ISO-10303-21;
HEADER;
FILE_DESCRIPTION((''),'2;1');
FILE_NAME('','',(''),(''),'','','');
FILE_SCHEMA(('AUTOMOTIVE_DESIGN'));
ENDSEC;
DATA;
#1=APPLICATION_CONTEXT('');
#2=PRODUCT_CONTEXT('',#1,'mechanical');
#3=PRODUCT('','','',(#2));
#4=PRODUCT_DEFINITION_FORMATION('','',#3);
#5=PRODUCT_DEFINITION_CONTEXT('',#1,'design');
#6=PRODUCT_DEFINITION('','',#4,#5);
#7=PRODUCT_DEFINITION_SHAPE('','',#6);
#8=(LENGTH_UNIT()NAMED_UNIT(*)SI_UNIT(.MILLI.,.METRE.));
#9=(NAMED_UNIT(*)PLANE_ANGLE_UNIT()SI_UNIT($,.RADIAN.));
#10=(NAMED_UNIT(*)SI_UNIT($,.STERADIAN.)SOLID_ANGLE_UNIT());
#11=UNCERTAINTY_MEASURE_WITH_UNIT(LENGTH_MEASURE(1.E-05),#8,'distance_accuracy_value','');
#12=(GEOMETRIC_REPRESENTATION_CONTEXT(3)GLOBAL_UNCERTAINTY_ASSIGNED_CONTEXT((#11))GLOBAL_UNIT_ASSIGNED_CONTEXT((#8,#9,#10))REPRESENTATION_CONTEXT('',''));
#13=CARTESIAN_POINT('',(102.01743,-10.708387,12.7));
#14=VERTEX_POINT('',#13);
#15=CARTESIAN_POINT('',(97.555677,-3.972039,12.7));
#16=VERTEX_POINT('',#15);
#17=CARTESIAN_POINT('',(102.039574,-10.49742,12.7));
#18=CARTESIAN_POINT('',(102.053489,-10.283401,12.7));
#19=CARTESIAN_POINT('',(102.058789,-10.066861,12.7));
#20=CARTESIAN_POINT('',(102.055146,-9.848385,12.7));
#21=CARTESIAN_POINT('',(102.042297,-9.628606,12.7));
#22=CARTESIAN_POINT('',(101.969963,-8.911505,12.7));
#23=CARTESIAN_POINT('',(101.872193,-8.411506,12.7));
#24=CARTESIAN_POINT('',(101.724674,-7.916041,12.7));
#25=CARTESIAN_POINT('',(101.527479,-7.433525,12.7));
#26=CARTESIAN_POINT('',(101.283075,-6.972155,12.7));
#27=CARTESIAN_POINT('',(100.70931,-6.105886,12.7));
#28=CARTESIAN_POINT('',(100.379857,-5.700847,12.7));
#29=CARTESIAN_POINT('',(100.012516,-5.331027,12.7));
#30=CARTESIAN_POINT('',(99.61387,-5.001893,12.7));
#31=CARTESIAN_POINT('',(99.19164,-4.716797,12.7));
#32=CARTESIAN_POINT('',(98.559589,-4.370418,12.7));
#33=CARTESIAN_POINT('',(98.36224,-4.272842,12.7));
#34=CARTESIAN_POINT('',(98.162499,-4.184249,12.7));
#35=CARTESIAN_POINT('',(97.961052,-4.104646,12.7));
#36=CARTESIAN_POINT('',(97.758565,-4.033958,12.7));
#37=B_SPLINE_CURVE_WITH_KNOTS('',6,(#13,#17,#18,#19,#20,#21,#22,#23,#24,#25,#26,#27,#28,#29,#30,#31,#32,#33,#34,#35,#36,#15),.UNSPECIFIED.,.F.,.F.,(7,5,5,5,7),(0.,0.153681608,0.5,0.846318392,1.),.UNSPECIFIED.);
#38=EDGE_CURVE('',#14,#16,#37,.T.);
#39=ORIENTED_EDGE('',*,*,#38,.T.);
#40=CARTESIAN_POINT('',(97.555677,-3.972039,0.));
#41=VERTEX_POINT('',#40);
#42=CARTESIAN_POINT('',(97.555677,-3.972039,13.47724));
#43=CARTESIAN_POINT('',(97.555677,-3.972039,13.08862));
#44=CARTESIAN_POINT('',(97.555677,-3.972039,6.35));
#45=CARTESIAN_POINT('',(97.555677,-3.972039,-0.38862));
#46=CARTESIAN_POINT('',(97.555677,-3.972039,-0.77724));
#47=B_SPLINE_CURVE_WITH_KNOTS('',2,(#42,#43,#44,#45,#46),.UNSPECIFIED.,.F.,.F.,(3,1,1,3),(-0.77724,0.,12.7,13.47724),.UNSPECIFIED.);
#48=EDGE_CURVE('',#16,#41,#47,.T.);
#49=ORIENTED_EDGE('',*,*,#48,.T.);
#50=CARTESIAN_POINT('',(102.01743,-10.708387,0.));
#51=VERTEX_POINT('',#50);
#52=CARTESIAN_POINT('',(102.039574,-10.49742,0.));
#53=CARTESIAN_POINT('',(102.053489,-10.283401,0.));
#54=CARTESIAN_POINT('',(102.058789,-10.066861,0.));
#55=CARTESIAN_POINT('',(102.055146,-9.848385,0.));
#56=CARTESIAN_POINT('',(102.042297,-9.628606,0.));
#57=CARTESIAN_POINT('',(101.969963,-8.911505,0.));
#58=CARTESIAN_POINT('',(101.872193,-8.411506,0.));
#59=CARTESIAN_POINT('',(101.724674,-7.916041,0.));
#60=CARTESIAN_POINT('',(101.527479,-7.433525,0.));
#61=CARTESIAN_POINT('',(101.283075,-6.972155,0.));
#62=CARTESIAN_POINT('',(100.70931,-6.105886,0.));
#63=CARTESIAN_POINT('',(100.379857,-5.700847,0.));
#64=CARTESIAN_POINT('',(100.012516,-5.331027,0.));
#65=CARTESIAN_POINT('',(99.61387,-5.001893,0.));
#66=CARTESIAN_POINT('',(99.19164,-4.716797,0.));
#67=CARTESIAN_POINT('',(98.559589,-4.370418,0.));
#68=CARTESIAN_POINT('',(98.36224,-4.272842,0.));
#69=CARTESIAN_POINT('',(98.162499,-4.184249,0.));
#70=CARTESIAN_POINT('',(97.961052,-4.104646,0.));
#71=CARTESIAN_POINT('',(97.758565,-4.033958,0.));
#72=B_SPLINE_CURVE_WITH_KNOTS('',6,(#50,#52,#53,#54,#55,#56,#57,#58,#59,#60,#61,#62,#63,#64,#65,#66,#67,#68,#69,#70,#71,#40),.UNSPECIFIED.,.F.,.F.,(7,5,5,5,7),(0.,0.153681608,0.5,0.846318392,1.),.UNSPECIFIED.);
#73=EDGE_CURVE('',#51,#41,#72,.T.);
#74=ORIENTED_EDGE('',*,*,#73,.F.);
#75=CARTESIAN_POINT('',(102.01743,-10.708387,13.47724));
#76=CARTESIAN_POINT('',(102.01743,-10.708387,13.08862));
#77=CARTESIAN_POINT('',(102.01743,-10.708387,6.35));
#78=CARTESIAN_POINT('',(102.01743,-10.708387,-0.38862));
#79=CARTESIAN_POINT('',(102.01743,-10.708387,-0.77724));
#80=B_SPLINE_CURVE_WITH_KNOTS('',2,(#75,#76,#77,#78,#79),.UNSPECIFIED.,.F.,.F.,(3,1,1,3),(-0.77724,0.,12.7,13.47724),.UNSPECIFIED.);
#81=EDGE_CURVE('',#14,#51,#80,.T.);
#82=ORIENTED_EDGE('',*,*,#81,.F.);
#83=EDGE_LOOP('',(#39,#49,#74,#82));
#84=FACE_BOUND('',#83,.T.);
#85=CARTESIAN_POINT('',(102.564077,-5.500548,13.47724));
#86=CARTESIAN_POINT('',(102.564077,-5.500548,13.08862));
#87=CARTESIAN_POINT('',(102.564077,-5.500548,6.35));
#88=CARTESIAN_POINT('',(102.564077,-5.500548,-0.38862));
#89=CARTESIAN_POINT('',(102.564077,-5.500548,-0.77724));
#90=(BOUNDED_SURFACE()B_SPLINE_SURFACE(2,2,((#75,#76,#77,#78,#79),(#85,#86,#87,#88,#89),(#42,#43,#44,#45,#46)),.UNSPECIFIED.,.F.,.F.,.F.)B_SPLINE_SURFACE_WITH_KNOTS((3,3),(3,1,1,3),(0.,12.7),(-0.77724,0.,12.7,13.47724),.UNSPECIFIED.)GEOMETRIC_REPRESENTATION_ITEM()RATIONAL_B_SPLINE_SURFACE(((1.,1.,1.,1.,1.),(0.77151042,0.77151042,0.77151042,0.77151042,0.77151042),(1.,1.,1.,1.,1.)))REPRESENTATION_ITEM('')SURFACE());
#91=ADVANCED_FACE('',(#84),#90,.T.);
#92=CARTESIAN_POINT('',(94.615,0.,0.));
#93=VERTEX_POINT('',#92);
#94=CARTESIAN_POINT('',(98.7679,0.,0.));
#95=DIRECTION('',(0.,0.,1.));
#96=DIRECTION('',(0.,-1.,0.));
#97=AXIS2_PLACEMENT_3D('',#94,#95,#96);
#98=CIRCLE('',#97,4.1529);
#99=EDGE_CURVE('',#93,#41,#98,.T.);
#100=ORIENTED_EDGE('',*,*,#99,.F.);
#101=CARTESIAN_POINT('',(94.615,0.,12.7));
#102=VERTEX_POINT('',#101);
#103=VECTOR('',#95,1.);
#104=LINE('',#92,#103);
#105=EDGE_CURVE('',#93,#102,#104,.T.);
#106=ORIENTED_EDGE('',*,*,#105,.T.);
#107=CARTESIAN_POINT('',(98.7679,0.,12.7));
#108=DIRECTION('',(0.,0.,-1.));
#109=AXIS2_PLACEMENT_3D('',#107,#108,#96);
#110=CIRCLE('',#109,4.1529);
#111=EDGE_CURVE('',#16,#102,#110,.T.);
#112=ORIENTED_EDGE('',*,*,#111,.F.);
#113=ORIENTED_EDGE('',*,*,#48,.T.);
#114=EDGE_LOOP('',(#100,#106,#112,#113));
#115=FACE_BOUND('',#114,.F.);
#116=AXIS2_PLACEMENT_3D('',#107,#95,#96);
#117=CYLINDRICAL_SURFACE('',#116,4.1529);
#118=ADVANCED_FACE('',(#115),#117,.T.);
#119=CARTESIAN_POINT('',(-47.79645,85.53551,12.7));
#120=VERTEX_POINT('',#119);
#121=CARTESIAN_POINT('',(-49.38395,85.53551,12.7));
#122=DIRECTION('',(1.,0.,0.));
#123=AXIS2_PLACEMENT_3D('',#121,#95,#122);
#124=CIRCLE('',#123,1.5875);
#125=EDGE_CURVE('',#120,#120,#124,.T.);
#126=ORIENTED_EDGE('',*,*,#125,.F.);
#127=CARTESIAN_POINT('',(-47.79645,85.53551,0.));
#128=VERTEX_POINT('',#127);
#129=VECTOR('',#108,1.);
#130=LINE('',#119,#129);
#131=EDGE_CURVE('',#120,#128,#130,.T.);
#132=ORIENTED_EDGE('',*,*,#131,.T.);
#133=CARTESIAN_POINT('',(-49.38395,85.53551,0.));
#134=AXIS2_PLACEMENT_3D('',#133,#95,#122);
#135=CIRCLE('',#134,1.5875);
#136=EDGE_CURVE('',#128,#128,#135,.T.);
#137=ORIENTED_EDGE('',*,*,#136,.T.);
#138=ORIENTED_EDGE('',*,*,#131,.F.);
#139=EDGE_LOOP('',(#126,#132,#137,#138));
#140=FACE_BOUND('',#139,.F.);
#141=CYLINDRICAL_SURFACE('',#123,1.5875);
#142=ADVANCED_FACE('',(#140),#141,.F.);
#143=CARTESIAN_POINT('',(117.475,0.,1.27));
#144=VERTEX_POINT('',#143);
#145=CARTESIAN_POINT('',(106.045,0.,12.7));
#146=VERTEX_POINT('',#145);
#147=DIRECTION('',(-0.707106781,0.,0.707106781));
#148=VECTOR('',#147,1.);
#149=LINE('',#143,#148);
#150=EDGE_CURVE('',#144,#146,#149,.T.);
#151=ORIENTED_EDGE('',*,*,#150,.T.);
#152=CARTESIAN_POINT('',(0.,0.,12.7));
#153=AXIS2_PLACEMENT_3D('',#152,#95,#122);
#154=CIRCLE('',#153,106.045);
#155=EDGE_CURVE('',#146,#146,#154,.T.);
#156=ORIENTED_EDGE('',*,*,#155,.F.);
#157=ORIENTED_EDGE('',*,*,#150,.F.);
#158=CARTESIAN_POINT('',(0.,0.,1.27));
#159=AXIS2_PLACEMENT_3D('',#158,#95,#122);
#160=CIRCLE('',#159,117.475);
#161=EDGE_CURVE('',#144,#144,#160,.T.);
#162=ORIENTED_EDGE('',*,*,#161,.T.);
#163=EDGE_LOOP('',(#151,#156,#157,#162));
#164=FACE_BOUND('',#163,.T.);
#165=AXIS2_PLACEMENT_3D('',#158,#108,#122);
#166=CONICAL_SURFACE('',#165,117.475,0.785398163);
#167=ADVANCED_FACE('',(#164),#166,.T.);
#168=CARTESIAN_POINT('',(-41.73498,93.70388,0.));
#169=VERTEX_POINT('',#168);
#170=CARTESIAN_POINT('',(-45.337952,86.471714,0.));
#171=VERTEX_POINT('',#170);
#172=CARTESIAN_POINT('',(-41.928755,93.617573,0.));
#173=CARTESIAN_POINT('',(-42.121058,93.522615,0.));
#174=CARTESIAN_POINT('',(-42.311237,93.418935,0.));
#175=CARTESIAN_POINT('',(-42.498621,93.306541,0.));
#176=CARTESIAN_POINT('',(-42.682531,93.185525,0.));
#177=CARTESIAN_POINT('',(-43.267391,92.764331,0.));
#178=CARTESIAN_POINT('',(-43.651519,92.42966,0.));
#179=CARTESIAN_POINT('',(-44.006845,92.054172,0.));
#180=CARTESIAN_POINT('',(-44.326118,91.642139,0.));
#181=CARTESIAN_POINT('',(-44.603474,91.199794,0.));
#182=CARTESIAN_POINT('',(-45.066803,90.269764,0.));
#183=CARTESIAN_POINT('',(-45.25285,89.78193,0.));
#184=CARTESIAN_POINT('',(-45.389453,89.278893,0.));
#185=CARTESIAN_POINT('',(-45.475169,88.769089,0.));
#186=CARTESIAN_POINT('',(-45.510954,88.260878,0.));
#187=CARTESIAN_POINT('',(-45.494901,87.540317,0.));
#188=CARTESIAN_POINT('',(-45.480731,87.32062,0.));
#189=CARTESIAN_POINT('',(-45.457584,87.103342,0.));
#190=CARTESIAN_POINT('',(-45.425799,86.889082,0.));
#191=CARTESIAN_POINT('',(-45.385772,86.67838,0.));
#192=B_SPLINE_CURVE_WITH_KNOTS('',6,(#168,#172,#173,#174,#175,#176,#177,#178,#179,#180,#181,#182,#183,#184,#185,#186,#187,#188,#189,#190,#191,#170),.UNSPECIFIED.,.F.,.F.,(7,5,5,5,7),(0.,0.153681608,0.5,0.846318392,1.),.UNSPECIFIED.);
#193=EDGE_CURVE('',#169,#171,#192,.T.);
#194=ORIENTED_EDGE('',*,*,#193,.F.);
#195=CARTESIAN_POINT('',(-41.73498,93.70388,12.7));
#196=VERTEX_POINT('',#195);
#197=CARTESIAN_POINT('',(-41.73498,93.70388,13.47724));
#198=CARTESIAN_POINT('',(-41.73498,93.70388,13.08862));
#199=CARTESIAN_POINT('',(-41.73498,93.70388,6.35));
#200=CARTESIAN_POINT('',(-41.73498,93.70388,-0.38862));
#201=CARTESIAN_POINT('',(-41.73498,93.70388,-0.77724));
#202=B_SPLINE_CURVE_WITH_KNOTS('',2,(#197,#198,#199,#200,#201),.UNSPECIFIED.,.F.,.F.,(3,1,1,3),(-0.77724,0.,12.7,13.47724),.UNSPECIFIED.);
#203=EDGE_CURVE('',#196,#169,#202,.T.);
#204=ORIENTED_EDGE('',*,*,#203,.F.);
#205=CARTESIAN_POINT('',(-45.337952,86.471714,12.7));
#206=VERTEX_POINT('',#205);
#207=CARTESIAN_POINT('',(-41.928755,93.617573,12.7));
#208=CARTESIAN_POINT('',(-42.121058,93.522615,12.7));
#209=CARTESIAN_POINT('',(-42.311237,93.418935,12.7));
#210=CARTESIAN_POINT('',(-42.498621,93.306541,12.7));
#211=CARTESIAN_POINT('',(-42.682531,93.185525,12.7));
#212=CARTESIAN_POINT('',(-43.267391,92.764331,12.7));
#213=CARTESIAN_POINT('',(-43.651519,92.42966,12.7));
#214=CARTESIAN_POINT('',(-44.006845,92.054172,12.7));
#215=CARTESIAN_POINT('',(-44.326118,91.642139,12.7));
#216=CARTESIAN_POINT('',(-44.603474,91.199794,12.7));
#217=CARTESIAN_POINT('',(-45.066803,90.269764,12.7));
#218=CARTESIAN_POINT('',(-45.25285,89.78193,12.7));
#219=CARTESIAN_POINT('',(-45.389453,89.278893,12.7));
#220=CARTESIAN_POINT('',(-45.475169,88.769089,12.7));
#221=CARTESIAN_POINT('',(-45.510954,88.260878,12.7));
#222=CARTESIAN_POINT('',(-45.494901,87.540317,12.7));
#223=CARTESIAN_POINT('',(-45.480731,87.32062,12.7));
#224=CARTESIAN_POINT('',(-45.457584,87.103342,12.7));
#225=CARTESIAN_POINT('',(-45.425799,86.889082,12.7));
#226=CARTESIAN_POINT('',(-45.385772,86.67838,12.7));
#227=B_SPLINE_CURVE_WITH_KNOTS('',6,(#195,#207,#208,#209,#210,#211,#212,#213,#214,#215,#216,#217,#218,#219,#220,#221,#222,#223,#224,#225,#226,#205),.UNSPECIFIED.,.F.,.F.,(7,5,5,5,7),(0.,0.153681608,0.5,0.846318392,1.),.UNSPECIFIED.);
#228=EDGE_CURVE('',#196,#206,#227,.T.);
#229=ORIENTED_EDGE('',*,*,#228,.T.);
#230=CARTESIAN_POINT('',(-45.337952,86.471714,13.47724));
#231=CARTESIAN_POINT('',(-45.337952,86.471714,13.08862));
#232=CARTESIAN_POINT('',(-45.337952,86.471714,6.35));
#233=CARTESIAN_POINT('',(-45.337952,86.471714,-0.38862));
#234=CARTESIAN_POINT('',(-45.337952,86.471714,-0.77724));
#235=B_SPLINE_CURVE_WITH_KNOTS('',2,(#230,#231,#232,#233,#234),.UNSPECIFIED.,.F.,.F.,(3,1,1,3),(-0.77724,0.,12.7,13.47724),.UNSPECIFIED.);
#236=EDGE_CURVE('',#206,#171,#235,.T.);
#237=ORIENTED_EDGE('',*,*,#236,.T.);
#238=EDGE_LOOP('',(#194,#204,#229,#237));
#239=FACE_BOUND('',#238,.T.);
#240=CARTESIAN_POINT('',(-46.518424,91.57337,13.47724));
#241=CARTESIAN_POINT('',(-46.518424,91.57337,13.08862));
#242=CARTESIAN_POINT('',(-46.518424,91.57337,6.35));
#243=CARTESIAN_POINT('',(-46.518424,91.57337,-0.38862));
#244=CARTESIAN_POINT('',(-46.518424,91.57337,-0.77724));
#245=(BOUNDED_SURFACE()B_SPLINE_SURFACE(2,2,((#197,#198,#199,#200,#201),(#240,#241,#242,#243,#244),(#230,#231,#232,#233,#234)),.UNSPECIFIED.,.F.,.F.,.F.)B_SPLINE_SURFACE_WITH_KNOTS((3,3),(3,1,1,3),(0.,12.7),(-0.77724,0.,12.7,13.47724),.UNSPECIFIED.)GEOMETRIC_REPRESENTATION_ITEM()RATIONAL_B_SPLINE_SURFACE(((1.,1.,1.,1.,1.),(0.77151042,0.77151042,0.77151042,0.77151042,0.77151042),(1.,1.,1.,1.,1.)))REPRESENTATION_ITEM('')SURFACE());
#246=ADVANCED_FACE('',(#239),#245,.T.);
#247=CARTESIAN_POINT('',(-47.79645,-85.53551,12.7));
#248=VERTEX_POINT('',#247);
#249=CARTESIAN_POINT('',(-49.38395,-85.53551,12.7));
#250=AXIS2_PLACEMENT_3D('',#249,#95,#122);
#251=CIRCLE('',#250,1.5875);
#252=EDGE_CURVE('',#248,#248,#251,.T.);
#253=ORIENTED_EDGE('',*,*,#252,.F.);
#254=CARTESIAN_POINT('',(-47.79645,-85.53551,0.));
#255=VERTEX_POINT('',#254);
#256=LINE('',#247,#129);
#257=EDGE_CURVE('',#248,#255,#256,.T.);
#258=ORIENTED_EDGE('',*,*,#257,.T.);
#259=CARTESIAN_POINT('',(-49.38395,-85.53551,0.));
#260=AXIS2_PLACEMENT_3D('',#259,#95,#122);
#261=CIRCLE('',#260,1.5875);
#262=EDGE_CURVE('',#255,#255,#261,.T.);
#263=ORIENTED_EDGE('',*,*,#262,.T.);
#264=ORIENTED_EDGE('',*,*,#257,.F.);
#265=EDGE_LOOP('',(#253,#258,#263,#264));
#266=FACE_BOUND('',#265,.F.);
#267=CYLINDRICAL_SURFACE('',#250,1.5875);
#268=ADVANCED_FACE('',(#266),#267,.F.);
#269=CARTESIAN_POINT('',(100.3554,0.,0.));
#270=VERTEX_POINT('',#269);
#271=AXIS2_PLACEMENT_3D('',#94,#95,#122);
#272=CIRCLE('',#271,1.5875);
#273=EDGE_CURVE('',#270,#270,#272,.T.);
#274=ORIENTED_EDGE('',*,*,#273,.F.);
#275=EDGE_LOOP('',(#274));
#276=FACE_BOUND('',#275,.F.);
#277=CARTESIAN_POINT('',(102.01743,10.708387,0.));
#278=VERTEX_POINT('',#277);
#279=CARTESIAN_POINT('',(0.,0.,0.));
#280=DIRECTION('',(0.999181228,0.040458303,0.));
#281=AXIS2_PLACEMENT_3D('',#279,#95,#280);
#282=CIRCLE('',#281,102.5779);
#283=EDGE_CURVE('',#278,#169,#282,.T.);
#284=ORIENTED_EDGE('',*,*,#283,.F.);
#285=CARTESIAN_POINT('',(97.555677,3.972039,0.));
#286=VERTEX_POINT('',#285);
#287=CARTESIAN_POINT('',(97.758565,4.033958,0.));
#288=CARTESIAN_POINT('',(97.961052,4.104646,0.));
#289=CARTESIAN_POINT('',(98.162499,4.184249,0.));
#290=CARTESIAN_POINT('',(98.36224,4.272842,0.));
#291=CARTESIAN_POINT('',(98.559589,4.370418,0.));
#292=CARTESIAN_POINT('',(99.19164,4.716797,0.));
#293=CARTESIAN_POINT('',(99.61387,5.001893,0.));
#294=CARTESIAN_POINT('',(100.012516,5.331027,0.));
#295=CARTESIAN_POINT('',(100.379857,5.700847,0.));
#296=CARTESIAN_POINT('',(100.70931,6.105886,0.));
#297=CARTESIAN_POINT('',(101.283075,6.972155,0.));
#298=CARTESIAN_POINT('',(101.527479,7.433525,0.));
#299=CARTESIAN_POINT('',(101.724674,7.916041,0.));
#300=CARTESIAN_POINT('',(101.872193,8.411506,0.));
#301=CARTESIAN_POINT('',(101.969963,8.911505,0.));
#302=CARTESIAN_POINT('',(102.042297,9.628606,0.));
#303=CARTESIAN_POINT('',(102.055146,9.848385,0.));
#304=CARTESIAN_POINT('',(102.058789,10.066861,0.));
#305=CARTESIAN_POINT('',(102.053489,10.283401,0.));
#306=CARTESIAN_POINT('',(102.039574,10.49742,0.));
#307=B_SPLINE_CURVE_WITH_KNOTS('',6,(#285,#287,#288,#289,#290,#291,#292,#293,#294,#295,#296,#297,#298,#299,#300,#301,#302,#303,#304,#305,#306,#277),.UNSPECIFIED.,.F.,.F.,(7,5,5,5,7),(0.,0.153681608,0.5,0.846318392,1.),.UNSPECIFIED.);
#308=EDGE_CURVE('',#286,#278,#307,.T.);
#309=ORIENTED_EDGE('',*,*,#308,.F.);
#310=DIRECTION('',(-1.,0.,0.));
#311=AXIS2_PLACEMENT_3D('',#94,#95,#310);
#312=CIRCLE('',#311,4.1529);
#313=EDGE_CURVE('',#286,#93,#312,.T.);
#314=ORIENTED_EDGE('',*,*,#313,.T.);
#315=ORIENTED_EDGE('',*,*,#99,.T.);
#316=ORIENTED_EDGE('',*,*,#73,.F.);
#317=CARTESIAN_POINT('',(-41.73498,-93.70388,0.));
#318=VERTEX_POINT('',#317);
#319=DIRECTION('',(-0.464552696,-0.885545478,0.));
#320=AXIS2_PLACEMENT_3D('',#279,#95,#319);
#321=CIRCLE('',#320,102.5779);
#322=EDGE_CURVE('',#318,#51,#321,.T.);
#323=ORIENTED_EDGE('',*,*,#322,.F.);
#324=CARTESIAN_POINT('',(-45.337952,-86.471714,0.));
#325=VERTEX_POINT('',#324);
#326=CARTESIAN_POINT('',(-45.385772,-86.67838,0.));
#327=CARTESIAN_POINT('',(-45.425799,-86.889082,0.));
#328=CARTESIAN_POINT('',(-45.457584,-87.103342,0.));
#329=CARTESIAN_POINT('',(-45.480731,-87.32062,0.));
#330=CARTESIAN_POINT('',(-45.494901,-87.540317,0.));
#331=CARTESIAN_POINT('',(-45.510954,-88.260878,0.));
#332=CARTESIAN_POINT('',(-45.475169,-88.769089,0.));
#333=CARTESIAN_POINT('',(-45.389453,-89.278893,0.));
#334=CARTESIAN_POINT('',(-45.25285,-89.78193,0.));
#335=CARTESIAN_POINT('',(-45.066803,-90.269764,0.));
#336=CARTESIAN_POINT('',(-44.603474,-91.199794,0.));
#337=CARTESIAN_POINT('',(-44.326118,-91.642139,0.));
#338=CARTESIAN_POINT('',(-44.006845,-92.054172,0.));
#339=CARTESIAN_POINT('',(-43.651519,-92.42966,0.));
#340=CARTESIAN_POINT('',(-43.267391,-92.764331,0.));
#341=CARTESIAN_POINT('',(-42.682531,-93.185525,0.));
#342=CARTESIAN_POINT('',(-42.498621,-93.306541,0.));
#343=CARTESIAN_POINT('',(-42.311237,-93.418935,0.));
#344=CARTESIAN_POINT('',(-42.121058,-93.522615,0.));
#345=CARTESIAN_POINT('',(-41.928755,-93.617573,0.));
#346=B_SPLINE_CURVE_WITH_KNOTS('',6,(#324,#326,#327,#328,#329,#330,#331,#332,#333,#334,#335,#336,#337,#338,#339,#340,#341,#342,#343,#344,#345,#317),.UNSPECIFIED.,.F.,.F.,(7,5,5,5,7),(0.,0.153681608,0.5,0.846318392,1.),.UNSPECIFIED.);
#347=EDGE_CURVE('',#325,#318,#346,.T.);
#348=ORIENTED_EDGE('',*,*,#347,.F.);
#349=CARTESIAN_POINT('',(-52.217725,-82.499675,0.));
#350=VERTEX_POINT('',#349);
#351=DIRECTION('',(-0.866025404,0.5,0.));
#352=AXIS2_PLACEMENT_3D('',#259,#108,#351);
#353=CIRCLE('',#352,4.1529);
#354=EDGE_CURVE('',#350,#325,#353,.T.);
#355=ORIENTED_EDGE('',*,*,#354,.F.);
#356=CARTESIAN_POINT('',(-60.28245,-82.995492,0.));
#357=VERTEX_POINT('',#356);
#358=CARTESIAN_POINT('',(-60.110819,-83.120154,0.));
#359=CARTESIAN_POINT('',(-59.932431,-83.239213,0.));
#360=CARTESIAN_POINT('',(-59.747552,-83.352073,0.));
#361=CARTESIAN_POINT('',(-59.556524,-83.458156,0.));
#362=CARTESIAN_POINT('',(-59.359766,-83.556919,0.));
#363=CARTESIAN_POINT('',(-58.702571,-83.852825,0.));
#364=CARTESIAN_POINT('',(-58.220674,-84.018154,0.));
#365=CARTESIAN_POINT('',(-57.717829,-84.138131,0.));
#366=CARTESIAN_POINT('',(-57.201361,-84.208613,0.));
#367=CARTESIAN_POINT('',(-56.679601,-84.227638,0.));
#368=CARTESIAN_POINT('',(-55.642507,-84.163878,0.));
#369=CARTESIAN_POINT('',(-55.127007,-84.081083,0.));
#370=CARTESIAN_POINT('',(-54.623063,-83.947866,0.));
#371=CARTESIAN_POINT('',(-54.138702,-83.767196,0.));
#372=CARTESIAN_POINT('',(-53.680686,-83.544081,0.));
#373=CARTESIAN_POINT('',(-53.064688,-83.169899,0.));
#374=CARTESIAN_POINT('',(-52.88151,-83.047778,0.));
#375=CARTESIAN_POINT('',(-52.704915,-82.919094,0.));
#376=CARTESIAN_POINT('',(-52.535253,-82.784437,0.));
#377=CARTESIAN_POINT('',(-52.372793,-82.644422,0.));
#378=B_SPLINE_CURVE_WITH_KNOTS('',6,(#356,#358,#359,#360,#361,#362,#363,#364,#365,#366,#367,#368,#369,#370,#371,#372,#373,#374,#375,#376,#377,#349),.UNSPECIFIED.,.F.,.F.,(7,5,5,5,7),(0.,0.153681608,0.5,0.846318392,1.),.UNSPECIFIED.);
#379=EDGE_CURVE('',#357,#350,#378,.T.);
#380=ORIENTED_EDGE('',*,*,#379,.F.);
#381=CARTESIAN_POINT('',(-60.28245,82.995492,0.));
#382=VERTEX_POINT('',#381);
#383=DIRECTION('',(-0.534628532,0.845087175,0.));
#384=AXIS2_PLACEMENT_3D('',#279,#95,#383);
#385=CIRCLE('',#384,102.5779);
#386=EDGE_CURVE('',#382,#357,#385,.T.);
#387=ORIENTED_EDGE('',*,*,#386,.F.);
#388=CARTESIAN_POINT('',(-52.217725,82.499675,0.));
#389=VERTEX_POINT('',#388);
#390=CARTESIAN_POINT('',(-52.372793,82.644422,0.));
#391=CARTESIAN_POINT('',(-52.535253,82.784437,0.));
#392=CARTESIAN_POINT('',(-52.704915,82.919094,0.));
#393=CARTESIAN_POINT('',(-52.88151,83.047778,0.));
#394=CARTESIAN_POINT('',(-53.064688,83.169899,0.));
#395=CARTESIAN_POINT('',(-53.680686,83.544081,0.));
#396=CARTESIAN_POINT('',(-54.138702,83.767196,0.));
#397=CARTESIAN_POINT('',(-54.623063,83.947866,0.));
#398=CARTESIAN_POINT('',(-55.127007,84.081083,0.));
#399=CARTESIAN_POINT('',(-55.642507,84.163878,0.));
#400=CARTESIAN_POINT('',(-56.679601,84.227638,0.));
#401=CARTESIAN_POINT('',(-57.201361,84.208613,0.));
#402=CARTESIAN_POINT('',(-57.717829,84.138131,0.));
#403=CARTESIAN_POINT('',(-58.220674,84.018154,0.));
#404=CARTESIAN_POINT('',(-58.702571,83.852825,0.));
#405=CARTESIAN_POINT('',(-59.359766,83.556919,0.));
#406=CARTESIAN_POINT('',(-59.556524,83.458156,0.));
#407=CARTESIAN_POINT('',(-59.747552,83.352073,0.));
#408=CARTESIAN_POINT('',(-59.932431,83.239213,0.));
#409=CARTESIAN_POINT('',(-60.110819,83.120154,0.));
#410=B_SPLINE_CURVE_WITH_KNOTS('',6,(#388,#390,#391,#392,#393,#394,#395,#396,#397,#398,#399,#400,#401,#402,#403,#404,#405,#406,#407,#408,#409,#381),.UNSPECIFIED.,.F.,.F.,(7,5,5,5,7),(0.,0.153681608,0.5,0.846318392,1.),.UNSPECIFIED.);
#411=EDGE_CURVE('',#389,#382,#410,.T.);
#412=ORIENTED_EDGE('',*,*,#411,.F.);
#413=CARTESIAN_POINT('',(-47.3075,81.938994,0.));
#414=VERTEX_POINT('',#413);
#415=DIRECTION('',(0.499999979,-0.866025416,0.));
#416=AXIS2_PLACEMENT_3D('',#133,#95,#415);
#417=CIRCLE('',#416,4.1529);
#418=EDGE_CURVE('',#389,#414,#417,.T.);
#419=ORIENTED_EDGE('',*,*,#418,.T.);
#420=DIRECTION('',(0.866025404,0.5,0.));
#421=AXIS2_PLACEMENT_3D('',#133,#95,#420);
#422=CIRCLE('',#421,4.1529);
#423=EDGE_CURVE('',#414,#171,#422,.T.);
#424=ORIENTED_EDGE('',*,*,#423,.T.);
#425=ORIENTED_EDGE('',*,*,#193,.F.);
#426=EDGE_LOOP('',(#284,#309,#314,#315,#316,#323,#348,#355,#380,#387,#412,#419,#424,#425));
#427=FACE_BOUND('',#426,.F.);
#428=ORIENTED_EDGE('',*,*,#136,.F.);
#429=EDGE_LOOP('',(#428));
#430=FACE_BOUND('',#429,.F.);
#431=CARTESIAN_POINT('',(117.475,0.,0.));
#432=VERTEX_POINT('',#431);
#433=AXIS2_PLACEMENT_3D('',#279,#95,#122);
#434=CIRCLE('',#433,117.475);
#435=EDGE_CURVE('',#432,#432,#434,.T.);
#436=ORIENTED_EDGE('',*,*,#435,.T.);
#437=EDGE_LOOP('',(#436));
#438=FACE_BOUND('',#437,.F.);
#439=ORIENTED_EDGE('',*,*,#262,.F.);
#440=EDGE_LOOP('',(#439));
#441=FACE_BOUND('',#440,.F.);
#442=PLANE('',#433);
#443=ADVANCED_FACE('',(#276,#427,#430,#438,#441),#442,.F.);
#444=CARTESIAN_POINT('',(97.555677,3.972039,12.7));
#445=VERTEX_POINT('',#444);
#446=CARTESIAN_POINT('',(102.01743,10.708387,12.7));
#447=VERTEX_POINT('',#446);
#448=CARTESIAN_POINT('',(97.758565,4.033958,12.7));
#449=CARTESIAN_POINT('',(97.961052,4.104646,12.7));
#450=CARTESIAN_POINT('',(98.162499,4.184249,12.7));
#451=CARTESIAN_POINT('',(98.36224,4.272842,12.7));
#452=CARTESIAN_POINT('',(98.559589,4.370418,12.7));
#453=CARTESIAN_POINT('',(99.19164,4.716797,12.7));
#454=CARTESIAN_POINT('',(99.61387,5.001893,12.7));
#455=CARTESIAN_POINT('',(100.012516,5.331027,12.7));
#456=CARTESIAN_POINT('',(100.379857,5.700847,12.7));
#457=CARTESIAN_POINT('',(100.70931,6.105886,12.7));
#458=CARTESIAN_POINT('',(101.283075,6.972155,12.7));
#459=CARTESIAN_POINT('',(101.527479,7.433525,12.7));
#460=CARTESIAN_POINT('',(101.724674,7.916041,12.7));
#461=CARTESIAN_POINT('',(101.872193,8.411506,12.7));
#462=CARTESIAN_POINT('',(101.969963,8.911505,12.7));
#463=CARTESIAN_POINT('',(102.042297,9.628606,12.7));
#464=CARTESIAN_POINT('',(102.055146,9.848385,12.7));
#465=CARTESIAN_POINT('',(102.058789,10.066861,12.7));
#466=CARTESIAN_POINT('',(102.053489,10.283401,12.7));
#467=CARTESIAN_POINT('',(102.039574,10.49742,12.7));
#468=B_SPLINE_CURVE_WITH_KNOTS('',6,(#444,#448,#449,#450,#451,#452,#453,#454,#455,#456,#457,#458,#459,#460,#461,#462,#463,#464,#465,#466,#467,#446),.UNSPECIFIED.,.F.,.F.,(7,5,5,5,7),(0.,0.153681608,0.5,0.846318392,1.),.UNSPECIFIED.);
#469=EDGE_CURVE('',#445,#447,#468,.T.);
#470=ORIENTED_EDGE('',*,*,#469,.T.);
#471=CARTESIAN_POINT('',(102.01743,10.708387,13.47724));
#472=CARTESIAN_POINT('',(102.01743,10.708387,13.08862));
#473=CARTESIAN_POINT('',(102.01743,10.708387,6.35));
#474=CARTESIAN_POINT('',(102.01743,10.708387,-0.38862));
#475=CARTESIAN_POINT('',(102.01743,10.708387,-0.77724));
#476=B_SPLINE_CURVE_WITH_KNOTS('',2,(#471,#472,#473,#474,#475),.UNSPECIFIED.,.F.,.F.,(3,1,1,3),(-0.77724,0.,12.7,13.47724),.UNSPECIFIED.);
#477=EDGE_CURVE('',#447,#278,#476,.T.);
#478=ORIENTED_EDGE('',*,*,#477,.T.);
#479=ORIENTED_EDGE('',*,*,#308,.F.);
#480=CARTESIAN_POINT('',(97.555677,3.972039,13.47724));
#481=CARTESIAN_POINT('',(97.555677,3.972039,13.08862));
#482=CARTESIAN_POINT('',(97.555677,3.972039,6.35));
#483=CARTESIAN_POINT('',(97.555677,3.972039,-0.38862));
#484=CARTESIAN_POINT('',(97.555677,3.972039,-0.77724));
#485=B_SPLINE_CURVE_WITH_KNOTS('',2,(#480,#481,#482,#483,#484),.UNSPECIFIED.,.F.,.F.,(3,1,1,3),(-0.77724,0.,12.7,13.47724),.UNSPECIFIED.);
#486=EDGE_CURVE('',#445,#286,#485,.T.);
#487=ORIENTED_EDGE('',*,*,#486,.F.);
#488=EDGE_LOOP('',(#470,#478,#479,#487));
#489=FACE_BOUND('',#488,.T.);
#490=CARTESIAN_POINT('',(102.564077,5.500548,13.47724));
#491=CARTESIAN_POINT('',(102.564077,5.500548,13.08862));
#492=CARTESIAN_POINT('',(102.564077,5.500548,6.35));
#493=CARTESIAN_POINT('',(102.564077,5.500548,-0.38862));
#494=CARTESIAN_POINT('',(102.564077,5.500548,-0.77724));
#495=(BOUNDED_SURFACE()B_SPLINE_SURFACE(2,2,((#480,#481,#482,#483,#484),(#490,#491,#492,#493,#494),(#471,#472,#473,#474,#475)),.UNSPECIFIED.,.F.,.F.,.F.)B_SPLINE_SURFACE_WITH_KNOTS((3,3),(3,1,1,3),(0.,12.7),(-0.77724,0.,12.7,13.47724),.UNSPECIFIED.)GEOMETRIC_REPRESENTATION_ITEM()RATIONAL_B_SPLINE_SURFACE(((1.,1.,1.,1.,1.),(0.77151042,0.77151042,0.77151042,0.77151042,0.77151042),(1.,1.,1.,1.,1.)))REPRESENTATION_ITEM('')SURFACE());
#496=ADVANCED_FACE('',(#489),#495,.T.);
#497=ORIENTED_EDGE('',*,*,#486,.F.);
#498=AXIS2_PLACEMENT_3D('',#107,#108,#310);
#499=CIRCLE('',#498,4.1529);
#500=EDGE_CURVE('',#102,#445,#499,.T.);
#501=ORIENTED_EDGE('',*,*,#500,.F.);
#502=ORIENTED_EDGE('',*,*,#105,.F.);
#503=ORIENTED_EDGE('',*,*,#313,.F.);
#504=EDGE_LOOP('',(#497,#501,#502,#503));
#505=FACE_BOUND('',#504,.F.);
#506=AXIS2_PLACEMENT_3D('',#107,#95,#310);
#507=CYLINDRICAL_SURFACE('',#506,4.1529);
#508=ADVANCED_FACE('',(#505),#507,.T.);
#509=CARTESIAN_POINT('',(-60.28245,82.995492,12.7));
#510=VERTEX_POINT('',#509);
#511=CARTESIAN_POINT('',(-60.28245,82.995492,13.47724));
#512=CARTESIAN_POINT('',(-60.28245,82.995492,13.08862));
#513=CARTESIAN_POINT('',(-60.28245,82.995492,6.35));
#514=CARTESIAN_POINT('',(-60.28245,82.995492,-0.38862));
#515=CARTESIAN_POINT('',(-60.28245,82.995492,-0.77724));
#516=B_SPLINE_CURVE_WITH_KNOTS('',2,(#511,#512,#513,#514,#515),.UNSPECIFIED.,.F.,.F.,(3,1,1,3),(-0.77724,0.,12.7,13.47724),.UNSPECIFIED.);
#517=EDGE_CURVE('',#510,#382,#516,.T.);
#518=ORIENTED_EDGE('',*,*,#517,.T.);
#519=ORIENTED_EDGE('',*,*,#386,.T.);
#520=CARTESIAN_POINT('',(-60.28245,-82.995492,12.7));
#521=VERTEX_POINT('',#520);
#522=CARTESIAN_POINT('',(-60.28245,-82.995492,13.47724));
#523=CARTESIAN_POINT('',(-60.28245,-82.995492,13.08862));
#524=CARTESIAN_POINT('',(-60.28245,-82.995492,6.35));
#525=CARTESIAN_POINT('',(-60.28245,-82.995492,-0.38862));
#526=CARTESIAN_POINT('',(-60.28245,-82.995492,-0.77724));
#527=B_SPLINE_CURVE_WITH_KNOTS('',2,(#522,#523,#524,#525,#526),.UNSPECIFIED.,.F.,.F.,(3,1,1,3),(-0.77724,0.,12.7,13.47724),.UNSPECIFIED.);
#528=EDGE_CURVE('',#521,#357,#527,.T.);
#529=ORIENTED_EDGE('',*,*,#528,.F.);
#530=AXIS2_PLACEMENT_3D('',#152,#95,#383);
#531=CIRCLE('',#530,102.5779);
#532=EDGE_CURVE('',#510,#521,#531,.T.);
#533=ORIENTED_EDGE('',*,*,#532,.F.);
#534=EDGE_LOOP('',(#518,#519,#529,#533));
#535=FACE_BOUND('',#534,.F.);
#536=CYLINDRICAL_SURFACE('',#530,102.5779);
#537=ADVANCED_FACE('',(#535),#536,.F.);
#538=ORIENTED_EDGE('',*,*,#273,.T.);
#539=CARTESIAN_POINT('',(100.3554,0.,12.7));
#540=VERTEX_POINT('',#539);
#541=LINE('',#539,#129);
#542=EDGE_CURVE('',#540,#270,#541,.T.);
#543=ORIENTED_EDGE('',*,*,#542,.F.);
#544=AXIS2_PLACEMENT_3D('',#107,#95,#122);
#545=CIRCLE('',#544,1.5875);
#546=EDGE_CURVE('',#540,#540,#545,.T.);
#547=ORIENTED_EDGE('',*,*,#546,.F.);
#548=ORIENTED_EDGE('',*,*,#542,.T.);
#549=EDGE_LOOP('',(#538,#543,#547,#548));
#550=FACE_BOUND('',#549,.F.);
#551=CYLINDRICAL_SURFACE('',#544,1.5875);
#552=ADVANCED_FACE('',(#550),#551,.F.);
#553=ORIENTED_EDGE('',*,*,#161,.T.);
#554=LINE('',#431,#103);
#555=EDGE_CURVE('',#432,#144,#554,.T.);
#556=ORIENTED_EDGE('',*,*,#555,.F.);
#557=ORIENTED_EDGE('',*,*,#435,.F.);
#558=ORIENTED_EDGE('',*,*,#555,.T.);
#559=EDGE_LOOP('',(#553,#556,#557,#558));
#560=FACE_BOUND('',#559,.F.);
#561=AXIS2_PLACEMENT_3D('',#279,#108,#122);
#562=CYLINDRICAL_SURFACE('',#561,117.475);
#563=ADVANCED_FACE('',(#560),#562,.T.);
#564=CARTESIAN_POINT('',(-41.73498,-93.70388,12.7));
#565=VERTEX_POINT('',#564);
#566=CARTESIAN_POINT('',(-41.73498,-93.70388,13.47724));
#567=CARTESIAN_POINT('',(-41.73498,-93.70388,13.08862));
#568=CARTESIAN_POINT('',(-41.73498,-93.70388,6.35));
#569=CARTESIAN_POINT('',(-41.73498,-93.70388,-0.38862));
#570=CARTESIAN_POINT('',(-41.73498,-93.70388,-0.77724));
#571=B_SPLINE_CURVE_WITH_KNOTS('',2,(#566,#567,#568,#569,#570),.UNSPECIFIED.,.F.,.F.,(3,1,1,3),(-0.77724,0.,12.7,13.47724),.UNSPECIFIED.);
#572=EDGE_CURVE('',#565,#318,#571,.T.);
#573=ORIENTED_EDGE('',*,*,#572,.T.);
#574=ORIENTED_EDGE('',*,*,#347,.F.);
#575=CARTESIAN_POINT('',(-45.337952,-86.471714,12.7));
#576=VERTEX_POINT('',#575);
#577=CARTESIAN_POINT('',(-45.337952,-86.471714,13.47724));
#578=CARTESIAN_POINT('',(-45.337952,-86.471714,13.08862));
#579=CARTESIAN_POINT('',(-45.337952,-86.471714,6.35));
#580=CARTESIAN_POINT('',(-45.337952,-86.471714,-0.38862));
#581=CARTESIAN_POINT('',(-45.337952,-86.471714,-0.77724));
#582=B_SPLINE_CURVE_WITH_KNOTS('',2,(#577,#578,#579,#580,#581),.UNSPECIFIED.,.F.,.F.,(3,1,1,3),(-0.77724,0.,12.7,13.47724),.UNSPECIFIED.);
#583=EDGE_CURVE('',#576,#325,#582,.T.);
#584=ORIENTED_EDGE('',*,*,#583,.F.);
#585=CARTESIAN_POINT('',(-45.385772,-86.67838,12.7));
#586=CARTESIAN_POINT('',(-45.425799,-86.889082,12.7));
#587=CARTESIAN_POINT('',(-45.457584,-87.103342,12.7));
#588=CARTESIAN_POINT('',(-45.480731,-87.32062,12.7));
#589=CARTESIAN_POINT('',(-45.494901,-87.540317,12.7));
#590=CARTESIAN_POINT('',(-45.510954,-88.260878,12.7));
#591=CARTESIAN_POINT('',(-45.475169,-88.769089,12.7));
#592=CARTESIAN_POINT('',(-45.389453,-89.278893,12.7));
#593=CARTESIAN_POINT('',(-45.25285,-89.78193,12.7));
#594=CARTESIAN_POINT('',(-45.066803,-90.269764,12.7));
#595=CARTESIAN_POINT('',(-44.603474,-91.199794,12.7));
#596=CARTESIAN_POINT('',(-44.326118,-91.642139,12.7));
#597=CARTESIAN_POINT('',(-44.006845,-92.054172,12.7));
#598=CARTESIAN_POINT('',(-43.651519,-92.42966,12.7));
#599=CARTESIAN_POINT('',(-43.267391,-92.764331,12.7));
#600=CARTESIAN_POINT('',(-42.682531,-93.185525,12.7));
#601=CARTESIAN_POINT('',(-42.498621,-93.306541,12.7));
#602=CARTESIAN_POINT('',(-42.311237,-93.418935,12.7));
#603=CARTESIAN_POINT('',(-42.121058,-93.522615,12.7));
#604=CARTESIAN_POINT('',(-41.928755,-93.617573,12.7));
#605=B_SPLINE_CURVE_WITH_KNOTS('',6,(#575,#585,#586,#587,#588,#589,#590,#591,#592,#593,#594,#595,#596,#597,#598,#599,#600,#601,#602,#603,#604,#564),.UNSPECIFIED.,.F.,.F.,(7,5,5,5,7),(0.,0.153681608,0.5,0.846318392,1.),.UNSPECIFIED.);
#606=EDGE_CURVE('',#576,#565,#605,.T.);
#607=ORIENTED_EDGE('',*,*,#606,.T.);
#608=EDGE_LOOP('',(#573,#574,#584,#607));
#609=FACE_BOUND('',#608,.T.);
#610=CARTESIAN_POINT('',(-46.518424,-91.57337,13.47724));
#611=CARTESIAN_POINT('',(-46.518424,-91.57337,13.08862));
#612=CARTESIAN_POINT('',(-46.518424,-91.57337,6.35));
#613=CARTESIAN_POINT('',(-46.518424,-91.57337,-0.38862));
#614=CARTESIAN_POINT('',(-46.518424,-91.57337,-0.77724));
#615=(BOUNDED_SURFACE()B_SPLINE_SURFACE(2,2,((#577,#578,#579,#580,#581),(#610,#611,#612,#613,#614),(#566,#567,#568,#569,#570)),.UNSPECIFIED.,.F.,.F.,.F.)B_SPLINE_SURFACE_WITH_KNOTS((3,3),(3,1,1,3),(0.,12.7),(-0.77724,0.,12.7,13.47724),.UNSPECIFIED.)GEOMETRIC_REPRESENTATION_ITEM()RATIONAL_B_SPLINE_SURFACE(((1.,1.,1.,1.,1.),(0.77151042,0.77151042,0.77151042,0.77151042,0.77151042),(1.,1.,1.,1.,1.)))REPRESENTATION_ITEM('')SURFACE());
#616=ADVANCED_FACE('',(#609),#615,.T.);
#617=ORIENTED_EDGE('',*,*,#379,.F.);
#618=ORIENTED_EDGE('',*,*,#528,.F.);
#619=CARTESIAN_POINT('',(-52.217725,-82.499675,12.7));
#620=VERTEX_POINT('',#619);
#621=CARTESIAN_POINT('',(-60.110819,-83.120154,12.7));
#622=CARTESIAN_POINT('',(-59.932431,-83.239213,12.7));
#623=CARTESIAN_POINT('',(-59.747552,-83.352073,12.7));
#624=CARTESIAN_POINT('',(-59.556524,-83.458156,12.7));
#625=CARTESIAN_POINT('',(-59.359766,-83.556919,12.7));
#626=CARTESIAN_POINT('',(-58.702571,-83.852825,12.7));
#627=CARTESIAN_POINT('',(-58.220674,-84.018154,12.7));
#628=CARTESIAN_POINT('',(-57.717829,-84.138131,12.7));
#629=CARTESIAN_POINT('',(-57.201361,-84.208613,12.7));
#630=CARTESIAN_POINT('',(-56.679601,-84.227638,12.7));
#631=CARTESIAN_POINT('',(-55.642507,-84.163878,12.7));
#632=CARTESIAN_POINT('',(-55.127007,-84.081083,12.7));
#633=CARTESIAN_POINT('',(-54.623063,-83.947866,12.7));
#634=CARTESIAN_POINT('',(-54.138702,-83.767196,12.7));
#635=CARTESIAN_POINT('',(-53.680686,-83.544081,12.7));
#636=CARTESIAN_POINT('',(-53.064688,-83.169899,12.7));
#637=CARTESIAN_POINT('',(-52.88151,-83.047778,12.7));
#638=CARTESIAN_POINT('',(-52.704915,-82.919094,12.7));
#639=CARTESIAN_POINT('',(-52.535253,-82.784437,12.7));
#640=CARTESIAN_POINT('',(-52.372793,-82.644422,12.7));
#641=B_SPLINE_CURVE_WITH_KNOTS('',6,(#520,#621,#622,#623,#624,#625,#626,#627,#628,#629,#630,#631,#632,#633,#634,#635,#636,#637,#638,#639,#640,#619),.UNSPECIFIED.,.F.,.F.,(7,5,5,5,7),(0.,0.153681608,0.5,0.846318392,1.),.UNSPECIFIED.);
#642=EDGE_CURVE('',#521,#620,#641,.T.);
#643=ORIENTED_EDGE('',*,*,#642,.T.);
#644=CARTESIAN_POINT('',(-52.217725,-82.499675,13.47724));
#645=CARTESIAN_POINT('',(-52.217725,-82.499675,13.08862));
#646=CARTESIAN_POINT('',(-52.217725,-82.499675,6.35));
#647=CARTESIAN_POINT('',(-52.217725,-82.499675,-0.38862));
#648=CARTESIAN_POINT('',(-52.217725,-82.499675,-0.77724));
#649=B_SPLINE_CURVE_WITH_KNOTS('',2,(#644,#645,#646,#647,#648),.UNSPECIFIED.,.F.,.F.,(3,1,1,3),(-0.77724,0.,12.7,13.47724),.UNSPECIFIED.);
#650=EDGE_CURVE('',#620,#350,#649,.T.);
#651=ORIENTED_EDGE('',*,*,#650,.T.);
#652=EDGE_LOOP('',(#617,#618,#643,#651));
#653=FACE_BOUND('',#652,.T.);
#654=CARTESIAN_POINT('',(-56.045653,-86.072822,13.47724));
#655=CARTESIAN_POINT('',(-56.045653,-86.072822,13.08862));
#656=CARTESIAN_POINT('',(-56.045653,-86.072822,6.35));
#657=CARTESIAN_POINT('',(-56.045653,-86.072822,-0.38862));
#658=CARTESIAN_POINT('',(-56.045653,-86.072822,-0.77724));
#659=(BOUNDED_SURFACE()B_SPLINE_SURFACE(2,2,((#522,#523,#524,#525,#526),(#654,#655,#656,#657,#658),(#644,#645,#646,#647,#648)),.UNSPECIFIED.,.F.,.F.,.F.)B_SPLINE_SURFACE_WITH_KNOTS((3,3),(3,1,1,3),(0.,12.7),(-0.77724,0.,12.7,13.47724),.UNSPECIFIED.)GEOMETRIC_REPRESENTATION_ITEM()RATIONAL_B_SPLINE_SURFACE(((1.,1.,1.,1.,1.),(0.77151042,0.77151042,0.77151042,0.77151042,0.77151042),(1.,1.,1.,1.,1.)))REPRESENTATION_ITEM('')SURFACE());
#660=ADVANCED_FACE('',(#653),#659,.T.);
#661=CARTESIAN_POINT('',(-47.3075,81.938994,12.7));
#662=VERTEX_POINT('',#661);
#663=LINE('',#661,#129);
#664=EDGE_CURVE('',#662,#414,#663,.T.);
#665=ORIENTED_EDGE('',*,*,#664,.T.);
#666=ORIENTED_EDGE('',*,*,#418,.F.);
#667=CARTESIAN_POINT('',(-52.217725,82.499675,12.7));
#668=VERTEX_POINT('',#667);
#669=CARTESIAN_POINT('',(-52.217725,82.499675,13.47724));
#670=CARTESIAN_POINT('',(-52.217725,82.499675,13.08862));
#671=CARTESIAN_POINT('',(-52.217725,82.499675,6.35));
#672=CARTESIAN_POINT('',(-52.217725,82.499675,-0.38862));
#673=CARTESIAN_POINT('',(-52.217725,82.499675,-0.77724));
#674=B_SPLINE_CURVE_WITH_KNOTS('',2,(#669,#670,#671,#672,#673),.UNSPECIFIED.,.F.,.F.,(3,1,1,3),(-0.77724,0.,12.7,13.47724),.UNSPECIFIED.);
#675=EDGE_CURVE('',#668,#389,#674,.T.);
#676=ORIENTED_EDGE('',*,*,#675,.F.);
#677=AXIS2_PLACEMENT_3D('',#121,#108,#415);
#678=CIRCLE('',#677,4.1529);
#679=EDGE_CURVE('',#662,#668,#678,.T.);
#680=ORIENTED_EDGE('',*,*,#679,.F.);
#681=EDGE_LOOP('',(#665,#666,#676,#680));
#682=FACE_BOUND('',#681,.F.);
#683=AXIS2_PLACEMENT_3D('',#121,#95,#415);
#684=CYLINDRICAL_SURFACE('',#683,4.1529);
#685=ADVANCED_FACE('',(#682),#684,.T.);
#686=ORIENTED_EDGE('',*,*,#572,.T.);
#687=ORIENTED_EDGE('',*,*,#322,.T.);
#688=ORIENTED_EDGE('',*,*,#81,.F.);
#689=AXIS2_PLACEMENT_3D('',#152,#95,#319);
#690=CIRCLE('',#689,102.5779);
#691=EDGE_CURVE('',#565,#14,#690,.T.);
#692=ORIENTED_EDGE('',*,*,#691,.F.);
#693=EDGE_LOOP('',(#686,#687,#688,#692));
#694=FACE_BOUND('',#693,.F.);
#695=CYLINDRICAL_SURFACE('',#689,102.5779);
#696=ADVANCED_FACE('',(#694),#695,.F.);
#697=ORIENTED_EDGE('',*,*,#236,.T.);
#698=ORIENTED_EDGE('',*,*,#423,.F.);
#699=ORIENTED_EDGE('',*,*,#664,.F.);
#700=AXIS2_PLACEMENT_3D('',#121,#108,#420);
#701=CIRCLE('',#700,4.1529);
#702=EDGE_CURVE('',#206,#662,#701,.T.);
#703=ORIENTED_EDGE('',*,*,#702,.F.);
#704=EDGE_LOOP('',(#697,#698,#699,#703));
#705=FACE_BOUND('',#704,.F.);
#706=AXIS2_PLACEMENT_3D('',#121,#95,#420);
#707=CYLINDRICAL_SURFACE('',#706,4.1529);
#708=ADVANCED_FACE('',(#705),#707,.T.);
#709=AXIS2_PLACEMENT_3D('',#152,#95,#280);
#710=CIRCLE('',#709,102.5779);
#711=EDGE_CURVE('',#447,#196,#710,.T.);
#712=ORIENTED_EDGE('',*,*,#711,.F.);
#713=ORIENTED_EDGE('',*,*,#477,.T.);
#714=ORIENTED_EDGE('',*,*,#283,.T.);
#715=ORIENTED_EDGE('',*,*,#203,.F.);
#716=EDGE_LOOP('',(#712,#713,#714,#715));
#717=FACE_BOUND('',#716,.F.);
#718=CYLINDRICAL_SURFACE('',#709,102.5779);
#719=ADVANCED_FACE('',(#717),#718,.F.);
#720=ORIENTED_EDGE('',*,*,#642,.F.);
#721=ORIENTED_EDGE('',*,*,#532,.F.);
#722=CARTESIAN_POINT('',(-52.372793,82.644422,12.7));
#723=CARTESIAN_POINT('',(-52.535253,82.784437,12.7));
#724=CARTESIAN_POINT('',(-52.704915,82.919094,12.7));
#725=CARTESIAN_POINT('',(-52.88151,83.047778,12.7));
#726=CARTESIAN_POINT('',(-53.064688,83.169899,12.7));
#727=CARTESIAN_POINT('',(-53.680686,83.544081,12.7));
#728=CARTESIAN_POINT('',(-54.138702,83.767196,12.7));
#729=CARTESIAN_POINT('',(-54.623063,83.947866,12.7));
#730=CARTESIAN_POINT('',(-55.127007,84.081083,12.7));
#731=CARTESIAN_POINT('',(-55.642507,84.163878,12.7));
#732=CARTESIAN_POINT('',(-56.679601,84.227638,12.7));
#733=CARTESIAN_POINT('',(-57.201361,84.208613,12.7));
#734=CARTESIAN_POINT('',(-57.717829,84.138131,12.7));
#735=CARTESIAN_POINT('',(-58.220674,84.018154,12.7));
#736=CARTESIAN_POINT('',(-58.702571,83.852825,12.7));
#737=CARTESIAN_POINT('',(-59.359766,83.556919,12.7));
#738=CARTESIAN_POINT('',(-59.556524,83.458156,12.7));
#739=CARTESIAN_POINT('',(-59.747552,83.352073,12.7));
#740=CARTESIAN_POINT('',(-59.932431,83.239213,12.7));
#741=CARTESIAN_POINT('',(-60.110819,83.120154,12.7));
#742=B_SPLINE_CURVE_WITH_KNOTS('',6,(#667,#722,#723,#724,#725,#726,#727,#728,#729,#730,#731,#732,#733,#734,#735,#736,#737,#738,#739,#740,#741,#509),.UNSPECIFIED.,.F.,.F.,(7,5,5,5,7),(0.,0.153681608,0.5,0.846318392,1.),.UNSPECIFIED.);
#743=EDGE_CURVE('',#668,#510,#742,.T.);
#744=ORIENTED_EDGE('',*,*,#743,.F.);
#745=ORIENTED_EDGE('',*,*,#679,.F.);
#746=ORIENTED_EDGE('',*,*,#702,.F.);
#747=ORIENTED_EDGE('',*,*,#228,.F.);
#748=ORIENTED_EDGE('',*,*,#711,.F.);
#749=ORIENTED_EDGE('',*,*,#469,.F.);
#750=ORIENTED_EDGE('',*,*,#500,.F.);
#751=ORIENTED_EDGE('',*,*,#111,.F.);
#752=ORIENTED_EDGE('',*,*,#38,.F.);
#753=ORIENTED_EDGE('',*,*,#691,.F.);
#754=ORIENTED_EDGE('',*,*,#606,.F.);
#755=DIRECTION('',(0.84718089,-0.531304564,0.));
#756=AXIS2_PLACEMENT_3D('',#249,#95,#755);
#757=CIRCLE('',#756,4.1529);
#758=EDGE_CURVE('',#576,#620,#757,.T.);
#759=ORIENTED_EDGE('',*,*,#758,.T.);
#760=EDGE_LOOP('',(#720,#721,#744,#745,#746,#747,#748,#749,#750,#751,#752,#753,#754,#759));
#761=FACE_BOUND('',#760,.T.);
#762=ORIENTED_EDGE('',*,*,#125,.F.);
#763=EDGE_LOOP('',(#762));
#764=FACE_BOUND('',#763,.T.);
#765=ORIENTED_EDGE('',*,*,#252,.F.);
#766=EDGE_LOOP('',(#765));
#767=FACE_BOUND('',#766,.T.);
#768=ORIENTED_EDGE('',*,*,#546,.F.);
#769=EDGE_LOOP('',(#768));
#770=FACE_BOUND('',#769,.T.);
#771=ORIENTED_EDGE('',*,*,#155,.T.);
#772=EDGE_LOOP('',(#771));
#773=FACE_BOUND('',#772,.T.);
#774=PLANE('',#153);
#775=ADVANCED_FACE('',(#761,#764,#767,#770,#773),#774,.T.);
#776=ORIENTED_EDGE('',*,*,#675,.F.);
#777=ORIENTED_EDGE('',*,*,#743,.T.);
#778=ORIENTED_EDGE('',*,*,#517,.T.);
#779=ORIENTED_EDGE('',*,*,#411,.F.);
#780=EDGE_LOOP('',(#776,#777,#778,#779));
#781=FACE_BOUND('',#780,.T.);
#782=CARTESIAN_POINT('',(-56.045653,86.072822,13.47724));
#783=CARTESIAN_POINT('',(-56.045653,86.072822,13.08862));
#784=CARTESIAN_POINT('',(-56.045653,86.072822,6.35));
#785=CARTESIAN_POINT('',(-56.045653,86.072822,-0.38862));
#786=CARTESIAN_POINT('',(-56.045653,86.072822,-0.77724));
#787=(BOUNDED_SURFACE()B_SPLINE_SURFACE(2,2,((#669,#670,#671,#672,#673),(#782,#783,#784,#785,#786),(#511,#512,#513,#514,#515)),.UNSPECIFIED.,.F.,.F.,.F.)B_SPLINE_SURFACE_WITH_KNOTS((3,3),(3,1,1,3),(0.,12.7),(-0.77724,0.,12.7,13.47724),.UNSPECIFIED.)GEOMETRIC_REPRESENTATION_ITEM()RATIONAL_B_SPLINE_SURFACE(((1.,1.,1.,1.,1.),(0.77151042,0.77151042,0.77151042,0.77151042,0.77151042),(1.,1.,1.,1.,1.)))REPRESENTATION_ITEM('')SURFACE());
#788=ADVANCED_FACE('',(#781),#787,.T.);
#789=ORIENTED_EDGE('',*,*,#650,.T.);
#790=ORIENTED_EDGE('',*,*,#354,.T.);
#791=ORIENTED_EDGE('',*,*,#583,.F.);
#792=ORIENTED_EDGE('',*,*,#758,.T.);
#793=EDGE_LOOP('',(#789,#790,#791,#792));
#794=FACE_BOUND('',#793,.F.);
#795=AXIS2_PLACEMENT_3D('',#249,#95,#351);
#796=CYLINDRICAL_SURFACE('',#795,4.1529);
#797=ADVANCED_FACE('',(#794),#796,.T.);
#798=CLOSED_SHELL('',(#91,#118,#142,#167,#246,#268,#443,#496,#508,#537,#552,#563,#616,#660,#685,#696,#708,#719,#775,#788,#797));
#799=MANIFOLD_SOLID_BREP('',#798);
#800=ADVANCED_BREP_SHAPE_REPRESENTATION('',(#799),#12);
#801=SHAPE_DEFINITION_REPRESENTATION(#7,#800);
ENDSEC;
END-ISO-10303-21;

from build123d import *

# Parameters (mm, degrees)
F0_R     = 117.475
F0_R_2   = 94.615
F1_DEPTH = 12.7
F2_SIZE2 = 11.43
F2_SIZE  = 11.43
F3_R     = 1.5875
F4_DEPTH = 25.4
F5_DEPTH = 25.4
F6_R     = 6.35


with BuildPart() as f1:
    # F0 (on Top) → F1 (new body)
    with BuildSketch(Plane.XY):
        Circle(F0_R)
        Circle(F0_R_2, mode=Mode.SUBTRACT)
    extrude(amount=F1_DEPTH)

    # F2
    f2_edges = [f1.edges().sort_by_distance(p)[0] for p in [
        (-117.475, 0, 12.7),
    ]]
    chamfer(f2_edges, length=F2_SIZE, length2=F2_SIZE2)

    # F3 (on face) → F4 (cut)
    with BuildSketch(Plane.XY.offset(12.7)):
        with Locations((-49.38395, -85.5355104784)):
            Circle(F3_R)
        with Locations((98.7679, 0)):
            Circle(F3_R)
        with Locations((-49.38395, 85.5355104784)):
            Circle(F3_R)
    extrude(amount=-F4_DEPTH, mode=Mode.SUBTRACT)

    # F3 (on face) → F5 (cut)
    with BuildSketch(Plane.XY.offset(12.7)):
        with BuildLine():
            ThreePointArc((-47.3074999758, -81.938993593), (-94.615, -6.48e-08), (-47.307500088, 81.9389935282))
            ThreePointArc((-47.307500088, 81.9389935282), (-50.5319062243, 81.5444235442), (-53.0539246015, 83.5918374518))
            Line((-53.0539246015, 83.5918374518), (-54.8410720868, 86.687267697))
            ThreePointArc((-54.8410720868, 86.687267697), (-102.5778999906, 0.0013872619), (-54.8434167812, -86.6857843258))
            Line((-54.8434167812, -86.6857843258), (-52.9804668994, -83.4590604784))
            ThreePointArc((-52.9804668994, -83.4590604784), (-50.4587995989, -81.5241171108), (-47.3074999758, -81.938993593))
        make_face()
        with BuildLine():
            Line((98.9196170831, 4.1501277494), (102.4939120537, 4.1501277494))
            ThreePointArc((102.4939120537, 4.1501277494), (51.2901513993, 88.8343736278), (-47.6503829825, 90.8386843258))
            Line((-47.6503829825, 90.8386843258), (-45.7874331006, 87.6119604784))
            ThreePointArc((-45.7874331006, 87.6119604784), (-45.3725566492, 84.4606608169), (-47.307500088, 81.9389935282))
            ThreePointArc((-47.307500088, 81.9389935282), (47.307499956, 81.9389936045), (94.615, 0))
            ThreePointArc((94.615, 0), (95.8854954018, 2.9897026846), (98.9196170831, 4.1501277494))
        make_face()
        with BuildLine():
            ThreePointArc((98.7679, -4.1529), (95.8313562484, -2.9365437516), (94.615, 0))
            ThreePointArc((94.615, 0), (47.3075000121, -81.9389935721), (-47.3074999758, -81.938993593))
            ThreePointArc((-47.3074999758, -81.938993593), (-45.3535892229, -84.5341262282), (-45.8656924816, -87.7419652013))
            Line((-45.8656924816, -87.7419652013), (-47.6528399669, -90.8373954465))
            ThreePointArc((-47.6528399669, -90.8373954465), (51.2877485913, -88.8357608897), (102.4937997637, -4.1529))
            Line((102.4937997637, -4.1529), (98.7679, -4.1529))
        make_face()
    extrude(amount=-F5_DEPTH, mode=Mode.SUBTRACT)

    # F6
    f6_edges = [f1.edges().sort_by_distance(p)[0] for p in [
        (-54.841072, 86.687268, 6.35),
        (-47.650383, 90.838684, 6.35),
        (102.4938, -4.1529, 6.35),
        (102.493912, 4.150128, 6.35),
        (-54.843417, -86.685784, 6.35),
        (-47.65284, -90.837395, 6.35),
    ]]
    fillet(f6_edges, radius=F6_R)


solid = f1.part
